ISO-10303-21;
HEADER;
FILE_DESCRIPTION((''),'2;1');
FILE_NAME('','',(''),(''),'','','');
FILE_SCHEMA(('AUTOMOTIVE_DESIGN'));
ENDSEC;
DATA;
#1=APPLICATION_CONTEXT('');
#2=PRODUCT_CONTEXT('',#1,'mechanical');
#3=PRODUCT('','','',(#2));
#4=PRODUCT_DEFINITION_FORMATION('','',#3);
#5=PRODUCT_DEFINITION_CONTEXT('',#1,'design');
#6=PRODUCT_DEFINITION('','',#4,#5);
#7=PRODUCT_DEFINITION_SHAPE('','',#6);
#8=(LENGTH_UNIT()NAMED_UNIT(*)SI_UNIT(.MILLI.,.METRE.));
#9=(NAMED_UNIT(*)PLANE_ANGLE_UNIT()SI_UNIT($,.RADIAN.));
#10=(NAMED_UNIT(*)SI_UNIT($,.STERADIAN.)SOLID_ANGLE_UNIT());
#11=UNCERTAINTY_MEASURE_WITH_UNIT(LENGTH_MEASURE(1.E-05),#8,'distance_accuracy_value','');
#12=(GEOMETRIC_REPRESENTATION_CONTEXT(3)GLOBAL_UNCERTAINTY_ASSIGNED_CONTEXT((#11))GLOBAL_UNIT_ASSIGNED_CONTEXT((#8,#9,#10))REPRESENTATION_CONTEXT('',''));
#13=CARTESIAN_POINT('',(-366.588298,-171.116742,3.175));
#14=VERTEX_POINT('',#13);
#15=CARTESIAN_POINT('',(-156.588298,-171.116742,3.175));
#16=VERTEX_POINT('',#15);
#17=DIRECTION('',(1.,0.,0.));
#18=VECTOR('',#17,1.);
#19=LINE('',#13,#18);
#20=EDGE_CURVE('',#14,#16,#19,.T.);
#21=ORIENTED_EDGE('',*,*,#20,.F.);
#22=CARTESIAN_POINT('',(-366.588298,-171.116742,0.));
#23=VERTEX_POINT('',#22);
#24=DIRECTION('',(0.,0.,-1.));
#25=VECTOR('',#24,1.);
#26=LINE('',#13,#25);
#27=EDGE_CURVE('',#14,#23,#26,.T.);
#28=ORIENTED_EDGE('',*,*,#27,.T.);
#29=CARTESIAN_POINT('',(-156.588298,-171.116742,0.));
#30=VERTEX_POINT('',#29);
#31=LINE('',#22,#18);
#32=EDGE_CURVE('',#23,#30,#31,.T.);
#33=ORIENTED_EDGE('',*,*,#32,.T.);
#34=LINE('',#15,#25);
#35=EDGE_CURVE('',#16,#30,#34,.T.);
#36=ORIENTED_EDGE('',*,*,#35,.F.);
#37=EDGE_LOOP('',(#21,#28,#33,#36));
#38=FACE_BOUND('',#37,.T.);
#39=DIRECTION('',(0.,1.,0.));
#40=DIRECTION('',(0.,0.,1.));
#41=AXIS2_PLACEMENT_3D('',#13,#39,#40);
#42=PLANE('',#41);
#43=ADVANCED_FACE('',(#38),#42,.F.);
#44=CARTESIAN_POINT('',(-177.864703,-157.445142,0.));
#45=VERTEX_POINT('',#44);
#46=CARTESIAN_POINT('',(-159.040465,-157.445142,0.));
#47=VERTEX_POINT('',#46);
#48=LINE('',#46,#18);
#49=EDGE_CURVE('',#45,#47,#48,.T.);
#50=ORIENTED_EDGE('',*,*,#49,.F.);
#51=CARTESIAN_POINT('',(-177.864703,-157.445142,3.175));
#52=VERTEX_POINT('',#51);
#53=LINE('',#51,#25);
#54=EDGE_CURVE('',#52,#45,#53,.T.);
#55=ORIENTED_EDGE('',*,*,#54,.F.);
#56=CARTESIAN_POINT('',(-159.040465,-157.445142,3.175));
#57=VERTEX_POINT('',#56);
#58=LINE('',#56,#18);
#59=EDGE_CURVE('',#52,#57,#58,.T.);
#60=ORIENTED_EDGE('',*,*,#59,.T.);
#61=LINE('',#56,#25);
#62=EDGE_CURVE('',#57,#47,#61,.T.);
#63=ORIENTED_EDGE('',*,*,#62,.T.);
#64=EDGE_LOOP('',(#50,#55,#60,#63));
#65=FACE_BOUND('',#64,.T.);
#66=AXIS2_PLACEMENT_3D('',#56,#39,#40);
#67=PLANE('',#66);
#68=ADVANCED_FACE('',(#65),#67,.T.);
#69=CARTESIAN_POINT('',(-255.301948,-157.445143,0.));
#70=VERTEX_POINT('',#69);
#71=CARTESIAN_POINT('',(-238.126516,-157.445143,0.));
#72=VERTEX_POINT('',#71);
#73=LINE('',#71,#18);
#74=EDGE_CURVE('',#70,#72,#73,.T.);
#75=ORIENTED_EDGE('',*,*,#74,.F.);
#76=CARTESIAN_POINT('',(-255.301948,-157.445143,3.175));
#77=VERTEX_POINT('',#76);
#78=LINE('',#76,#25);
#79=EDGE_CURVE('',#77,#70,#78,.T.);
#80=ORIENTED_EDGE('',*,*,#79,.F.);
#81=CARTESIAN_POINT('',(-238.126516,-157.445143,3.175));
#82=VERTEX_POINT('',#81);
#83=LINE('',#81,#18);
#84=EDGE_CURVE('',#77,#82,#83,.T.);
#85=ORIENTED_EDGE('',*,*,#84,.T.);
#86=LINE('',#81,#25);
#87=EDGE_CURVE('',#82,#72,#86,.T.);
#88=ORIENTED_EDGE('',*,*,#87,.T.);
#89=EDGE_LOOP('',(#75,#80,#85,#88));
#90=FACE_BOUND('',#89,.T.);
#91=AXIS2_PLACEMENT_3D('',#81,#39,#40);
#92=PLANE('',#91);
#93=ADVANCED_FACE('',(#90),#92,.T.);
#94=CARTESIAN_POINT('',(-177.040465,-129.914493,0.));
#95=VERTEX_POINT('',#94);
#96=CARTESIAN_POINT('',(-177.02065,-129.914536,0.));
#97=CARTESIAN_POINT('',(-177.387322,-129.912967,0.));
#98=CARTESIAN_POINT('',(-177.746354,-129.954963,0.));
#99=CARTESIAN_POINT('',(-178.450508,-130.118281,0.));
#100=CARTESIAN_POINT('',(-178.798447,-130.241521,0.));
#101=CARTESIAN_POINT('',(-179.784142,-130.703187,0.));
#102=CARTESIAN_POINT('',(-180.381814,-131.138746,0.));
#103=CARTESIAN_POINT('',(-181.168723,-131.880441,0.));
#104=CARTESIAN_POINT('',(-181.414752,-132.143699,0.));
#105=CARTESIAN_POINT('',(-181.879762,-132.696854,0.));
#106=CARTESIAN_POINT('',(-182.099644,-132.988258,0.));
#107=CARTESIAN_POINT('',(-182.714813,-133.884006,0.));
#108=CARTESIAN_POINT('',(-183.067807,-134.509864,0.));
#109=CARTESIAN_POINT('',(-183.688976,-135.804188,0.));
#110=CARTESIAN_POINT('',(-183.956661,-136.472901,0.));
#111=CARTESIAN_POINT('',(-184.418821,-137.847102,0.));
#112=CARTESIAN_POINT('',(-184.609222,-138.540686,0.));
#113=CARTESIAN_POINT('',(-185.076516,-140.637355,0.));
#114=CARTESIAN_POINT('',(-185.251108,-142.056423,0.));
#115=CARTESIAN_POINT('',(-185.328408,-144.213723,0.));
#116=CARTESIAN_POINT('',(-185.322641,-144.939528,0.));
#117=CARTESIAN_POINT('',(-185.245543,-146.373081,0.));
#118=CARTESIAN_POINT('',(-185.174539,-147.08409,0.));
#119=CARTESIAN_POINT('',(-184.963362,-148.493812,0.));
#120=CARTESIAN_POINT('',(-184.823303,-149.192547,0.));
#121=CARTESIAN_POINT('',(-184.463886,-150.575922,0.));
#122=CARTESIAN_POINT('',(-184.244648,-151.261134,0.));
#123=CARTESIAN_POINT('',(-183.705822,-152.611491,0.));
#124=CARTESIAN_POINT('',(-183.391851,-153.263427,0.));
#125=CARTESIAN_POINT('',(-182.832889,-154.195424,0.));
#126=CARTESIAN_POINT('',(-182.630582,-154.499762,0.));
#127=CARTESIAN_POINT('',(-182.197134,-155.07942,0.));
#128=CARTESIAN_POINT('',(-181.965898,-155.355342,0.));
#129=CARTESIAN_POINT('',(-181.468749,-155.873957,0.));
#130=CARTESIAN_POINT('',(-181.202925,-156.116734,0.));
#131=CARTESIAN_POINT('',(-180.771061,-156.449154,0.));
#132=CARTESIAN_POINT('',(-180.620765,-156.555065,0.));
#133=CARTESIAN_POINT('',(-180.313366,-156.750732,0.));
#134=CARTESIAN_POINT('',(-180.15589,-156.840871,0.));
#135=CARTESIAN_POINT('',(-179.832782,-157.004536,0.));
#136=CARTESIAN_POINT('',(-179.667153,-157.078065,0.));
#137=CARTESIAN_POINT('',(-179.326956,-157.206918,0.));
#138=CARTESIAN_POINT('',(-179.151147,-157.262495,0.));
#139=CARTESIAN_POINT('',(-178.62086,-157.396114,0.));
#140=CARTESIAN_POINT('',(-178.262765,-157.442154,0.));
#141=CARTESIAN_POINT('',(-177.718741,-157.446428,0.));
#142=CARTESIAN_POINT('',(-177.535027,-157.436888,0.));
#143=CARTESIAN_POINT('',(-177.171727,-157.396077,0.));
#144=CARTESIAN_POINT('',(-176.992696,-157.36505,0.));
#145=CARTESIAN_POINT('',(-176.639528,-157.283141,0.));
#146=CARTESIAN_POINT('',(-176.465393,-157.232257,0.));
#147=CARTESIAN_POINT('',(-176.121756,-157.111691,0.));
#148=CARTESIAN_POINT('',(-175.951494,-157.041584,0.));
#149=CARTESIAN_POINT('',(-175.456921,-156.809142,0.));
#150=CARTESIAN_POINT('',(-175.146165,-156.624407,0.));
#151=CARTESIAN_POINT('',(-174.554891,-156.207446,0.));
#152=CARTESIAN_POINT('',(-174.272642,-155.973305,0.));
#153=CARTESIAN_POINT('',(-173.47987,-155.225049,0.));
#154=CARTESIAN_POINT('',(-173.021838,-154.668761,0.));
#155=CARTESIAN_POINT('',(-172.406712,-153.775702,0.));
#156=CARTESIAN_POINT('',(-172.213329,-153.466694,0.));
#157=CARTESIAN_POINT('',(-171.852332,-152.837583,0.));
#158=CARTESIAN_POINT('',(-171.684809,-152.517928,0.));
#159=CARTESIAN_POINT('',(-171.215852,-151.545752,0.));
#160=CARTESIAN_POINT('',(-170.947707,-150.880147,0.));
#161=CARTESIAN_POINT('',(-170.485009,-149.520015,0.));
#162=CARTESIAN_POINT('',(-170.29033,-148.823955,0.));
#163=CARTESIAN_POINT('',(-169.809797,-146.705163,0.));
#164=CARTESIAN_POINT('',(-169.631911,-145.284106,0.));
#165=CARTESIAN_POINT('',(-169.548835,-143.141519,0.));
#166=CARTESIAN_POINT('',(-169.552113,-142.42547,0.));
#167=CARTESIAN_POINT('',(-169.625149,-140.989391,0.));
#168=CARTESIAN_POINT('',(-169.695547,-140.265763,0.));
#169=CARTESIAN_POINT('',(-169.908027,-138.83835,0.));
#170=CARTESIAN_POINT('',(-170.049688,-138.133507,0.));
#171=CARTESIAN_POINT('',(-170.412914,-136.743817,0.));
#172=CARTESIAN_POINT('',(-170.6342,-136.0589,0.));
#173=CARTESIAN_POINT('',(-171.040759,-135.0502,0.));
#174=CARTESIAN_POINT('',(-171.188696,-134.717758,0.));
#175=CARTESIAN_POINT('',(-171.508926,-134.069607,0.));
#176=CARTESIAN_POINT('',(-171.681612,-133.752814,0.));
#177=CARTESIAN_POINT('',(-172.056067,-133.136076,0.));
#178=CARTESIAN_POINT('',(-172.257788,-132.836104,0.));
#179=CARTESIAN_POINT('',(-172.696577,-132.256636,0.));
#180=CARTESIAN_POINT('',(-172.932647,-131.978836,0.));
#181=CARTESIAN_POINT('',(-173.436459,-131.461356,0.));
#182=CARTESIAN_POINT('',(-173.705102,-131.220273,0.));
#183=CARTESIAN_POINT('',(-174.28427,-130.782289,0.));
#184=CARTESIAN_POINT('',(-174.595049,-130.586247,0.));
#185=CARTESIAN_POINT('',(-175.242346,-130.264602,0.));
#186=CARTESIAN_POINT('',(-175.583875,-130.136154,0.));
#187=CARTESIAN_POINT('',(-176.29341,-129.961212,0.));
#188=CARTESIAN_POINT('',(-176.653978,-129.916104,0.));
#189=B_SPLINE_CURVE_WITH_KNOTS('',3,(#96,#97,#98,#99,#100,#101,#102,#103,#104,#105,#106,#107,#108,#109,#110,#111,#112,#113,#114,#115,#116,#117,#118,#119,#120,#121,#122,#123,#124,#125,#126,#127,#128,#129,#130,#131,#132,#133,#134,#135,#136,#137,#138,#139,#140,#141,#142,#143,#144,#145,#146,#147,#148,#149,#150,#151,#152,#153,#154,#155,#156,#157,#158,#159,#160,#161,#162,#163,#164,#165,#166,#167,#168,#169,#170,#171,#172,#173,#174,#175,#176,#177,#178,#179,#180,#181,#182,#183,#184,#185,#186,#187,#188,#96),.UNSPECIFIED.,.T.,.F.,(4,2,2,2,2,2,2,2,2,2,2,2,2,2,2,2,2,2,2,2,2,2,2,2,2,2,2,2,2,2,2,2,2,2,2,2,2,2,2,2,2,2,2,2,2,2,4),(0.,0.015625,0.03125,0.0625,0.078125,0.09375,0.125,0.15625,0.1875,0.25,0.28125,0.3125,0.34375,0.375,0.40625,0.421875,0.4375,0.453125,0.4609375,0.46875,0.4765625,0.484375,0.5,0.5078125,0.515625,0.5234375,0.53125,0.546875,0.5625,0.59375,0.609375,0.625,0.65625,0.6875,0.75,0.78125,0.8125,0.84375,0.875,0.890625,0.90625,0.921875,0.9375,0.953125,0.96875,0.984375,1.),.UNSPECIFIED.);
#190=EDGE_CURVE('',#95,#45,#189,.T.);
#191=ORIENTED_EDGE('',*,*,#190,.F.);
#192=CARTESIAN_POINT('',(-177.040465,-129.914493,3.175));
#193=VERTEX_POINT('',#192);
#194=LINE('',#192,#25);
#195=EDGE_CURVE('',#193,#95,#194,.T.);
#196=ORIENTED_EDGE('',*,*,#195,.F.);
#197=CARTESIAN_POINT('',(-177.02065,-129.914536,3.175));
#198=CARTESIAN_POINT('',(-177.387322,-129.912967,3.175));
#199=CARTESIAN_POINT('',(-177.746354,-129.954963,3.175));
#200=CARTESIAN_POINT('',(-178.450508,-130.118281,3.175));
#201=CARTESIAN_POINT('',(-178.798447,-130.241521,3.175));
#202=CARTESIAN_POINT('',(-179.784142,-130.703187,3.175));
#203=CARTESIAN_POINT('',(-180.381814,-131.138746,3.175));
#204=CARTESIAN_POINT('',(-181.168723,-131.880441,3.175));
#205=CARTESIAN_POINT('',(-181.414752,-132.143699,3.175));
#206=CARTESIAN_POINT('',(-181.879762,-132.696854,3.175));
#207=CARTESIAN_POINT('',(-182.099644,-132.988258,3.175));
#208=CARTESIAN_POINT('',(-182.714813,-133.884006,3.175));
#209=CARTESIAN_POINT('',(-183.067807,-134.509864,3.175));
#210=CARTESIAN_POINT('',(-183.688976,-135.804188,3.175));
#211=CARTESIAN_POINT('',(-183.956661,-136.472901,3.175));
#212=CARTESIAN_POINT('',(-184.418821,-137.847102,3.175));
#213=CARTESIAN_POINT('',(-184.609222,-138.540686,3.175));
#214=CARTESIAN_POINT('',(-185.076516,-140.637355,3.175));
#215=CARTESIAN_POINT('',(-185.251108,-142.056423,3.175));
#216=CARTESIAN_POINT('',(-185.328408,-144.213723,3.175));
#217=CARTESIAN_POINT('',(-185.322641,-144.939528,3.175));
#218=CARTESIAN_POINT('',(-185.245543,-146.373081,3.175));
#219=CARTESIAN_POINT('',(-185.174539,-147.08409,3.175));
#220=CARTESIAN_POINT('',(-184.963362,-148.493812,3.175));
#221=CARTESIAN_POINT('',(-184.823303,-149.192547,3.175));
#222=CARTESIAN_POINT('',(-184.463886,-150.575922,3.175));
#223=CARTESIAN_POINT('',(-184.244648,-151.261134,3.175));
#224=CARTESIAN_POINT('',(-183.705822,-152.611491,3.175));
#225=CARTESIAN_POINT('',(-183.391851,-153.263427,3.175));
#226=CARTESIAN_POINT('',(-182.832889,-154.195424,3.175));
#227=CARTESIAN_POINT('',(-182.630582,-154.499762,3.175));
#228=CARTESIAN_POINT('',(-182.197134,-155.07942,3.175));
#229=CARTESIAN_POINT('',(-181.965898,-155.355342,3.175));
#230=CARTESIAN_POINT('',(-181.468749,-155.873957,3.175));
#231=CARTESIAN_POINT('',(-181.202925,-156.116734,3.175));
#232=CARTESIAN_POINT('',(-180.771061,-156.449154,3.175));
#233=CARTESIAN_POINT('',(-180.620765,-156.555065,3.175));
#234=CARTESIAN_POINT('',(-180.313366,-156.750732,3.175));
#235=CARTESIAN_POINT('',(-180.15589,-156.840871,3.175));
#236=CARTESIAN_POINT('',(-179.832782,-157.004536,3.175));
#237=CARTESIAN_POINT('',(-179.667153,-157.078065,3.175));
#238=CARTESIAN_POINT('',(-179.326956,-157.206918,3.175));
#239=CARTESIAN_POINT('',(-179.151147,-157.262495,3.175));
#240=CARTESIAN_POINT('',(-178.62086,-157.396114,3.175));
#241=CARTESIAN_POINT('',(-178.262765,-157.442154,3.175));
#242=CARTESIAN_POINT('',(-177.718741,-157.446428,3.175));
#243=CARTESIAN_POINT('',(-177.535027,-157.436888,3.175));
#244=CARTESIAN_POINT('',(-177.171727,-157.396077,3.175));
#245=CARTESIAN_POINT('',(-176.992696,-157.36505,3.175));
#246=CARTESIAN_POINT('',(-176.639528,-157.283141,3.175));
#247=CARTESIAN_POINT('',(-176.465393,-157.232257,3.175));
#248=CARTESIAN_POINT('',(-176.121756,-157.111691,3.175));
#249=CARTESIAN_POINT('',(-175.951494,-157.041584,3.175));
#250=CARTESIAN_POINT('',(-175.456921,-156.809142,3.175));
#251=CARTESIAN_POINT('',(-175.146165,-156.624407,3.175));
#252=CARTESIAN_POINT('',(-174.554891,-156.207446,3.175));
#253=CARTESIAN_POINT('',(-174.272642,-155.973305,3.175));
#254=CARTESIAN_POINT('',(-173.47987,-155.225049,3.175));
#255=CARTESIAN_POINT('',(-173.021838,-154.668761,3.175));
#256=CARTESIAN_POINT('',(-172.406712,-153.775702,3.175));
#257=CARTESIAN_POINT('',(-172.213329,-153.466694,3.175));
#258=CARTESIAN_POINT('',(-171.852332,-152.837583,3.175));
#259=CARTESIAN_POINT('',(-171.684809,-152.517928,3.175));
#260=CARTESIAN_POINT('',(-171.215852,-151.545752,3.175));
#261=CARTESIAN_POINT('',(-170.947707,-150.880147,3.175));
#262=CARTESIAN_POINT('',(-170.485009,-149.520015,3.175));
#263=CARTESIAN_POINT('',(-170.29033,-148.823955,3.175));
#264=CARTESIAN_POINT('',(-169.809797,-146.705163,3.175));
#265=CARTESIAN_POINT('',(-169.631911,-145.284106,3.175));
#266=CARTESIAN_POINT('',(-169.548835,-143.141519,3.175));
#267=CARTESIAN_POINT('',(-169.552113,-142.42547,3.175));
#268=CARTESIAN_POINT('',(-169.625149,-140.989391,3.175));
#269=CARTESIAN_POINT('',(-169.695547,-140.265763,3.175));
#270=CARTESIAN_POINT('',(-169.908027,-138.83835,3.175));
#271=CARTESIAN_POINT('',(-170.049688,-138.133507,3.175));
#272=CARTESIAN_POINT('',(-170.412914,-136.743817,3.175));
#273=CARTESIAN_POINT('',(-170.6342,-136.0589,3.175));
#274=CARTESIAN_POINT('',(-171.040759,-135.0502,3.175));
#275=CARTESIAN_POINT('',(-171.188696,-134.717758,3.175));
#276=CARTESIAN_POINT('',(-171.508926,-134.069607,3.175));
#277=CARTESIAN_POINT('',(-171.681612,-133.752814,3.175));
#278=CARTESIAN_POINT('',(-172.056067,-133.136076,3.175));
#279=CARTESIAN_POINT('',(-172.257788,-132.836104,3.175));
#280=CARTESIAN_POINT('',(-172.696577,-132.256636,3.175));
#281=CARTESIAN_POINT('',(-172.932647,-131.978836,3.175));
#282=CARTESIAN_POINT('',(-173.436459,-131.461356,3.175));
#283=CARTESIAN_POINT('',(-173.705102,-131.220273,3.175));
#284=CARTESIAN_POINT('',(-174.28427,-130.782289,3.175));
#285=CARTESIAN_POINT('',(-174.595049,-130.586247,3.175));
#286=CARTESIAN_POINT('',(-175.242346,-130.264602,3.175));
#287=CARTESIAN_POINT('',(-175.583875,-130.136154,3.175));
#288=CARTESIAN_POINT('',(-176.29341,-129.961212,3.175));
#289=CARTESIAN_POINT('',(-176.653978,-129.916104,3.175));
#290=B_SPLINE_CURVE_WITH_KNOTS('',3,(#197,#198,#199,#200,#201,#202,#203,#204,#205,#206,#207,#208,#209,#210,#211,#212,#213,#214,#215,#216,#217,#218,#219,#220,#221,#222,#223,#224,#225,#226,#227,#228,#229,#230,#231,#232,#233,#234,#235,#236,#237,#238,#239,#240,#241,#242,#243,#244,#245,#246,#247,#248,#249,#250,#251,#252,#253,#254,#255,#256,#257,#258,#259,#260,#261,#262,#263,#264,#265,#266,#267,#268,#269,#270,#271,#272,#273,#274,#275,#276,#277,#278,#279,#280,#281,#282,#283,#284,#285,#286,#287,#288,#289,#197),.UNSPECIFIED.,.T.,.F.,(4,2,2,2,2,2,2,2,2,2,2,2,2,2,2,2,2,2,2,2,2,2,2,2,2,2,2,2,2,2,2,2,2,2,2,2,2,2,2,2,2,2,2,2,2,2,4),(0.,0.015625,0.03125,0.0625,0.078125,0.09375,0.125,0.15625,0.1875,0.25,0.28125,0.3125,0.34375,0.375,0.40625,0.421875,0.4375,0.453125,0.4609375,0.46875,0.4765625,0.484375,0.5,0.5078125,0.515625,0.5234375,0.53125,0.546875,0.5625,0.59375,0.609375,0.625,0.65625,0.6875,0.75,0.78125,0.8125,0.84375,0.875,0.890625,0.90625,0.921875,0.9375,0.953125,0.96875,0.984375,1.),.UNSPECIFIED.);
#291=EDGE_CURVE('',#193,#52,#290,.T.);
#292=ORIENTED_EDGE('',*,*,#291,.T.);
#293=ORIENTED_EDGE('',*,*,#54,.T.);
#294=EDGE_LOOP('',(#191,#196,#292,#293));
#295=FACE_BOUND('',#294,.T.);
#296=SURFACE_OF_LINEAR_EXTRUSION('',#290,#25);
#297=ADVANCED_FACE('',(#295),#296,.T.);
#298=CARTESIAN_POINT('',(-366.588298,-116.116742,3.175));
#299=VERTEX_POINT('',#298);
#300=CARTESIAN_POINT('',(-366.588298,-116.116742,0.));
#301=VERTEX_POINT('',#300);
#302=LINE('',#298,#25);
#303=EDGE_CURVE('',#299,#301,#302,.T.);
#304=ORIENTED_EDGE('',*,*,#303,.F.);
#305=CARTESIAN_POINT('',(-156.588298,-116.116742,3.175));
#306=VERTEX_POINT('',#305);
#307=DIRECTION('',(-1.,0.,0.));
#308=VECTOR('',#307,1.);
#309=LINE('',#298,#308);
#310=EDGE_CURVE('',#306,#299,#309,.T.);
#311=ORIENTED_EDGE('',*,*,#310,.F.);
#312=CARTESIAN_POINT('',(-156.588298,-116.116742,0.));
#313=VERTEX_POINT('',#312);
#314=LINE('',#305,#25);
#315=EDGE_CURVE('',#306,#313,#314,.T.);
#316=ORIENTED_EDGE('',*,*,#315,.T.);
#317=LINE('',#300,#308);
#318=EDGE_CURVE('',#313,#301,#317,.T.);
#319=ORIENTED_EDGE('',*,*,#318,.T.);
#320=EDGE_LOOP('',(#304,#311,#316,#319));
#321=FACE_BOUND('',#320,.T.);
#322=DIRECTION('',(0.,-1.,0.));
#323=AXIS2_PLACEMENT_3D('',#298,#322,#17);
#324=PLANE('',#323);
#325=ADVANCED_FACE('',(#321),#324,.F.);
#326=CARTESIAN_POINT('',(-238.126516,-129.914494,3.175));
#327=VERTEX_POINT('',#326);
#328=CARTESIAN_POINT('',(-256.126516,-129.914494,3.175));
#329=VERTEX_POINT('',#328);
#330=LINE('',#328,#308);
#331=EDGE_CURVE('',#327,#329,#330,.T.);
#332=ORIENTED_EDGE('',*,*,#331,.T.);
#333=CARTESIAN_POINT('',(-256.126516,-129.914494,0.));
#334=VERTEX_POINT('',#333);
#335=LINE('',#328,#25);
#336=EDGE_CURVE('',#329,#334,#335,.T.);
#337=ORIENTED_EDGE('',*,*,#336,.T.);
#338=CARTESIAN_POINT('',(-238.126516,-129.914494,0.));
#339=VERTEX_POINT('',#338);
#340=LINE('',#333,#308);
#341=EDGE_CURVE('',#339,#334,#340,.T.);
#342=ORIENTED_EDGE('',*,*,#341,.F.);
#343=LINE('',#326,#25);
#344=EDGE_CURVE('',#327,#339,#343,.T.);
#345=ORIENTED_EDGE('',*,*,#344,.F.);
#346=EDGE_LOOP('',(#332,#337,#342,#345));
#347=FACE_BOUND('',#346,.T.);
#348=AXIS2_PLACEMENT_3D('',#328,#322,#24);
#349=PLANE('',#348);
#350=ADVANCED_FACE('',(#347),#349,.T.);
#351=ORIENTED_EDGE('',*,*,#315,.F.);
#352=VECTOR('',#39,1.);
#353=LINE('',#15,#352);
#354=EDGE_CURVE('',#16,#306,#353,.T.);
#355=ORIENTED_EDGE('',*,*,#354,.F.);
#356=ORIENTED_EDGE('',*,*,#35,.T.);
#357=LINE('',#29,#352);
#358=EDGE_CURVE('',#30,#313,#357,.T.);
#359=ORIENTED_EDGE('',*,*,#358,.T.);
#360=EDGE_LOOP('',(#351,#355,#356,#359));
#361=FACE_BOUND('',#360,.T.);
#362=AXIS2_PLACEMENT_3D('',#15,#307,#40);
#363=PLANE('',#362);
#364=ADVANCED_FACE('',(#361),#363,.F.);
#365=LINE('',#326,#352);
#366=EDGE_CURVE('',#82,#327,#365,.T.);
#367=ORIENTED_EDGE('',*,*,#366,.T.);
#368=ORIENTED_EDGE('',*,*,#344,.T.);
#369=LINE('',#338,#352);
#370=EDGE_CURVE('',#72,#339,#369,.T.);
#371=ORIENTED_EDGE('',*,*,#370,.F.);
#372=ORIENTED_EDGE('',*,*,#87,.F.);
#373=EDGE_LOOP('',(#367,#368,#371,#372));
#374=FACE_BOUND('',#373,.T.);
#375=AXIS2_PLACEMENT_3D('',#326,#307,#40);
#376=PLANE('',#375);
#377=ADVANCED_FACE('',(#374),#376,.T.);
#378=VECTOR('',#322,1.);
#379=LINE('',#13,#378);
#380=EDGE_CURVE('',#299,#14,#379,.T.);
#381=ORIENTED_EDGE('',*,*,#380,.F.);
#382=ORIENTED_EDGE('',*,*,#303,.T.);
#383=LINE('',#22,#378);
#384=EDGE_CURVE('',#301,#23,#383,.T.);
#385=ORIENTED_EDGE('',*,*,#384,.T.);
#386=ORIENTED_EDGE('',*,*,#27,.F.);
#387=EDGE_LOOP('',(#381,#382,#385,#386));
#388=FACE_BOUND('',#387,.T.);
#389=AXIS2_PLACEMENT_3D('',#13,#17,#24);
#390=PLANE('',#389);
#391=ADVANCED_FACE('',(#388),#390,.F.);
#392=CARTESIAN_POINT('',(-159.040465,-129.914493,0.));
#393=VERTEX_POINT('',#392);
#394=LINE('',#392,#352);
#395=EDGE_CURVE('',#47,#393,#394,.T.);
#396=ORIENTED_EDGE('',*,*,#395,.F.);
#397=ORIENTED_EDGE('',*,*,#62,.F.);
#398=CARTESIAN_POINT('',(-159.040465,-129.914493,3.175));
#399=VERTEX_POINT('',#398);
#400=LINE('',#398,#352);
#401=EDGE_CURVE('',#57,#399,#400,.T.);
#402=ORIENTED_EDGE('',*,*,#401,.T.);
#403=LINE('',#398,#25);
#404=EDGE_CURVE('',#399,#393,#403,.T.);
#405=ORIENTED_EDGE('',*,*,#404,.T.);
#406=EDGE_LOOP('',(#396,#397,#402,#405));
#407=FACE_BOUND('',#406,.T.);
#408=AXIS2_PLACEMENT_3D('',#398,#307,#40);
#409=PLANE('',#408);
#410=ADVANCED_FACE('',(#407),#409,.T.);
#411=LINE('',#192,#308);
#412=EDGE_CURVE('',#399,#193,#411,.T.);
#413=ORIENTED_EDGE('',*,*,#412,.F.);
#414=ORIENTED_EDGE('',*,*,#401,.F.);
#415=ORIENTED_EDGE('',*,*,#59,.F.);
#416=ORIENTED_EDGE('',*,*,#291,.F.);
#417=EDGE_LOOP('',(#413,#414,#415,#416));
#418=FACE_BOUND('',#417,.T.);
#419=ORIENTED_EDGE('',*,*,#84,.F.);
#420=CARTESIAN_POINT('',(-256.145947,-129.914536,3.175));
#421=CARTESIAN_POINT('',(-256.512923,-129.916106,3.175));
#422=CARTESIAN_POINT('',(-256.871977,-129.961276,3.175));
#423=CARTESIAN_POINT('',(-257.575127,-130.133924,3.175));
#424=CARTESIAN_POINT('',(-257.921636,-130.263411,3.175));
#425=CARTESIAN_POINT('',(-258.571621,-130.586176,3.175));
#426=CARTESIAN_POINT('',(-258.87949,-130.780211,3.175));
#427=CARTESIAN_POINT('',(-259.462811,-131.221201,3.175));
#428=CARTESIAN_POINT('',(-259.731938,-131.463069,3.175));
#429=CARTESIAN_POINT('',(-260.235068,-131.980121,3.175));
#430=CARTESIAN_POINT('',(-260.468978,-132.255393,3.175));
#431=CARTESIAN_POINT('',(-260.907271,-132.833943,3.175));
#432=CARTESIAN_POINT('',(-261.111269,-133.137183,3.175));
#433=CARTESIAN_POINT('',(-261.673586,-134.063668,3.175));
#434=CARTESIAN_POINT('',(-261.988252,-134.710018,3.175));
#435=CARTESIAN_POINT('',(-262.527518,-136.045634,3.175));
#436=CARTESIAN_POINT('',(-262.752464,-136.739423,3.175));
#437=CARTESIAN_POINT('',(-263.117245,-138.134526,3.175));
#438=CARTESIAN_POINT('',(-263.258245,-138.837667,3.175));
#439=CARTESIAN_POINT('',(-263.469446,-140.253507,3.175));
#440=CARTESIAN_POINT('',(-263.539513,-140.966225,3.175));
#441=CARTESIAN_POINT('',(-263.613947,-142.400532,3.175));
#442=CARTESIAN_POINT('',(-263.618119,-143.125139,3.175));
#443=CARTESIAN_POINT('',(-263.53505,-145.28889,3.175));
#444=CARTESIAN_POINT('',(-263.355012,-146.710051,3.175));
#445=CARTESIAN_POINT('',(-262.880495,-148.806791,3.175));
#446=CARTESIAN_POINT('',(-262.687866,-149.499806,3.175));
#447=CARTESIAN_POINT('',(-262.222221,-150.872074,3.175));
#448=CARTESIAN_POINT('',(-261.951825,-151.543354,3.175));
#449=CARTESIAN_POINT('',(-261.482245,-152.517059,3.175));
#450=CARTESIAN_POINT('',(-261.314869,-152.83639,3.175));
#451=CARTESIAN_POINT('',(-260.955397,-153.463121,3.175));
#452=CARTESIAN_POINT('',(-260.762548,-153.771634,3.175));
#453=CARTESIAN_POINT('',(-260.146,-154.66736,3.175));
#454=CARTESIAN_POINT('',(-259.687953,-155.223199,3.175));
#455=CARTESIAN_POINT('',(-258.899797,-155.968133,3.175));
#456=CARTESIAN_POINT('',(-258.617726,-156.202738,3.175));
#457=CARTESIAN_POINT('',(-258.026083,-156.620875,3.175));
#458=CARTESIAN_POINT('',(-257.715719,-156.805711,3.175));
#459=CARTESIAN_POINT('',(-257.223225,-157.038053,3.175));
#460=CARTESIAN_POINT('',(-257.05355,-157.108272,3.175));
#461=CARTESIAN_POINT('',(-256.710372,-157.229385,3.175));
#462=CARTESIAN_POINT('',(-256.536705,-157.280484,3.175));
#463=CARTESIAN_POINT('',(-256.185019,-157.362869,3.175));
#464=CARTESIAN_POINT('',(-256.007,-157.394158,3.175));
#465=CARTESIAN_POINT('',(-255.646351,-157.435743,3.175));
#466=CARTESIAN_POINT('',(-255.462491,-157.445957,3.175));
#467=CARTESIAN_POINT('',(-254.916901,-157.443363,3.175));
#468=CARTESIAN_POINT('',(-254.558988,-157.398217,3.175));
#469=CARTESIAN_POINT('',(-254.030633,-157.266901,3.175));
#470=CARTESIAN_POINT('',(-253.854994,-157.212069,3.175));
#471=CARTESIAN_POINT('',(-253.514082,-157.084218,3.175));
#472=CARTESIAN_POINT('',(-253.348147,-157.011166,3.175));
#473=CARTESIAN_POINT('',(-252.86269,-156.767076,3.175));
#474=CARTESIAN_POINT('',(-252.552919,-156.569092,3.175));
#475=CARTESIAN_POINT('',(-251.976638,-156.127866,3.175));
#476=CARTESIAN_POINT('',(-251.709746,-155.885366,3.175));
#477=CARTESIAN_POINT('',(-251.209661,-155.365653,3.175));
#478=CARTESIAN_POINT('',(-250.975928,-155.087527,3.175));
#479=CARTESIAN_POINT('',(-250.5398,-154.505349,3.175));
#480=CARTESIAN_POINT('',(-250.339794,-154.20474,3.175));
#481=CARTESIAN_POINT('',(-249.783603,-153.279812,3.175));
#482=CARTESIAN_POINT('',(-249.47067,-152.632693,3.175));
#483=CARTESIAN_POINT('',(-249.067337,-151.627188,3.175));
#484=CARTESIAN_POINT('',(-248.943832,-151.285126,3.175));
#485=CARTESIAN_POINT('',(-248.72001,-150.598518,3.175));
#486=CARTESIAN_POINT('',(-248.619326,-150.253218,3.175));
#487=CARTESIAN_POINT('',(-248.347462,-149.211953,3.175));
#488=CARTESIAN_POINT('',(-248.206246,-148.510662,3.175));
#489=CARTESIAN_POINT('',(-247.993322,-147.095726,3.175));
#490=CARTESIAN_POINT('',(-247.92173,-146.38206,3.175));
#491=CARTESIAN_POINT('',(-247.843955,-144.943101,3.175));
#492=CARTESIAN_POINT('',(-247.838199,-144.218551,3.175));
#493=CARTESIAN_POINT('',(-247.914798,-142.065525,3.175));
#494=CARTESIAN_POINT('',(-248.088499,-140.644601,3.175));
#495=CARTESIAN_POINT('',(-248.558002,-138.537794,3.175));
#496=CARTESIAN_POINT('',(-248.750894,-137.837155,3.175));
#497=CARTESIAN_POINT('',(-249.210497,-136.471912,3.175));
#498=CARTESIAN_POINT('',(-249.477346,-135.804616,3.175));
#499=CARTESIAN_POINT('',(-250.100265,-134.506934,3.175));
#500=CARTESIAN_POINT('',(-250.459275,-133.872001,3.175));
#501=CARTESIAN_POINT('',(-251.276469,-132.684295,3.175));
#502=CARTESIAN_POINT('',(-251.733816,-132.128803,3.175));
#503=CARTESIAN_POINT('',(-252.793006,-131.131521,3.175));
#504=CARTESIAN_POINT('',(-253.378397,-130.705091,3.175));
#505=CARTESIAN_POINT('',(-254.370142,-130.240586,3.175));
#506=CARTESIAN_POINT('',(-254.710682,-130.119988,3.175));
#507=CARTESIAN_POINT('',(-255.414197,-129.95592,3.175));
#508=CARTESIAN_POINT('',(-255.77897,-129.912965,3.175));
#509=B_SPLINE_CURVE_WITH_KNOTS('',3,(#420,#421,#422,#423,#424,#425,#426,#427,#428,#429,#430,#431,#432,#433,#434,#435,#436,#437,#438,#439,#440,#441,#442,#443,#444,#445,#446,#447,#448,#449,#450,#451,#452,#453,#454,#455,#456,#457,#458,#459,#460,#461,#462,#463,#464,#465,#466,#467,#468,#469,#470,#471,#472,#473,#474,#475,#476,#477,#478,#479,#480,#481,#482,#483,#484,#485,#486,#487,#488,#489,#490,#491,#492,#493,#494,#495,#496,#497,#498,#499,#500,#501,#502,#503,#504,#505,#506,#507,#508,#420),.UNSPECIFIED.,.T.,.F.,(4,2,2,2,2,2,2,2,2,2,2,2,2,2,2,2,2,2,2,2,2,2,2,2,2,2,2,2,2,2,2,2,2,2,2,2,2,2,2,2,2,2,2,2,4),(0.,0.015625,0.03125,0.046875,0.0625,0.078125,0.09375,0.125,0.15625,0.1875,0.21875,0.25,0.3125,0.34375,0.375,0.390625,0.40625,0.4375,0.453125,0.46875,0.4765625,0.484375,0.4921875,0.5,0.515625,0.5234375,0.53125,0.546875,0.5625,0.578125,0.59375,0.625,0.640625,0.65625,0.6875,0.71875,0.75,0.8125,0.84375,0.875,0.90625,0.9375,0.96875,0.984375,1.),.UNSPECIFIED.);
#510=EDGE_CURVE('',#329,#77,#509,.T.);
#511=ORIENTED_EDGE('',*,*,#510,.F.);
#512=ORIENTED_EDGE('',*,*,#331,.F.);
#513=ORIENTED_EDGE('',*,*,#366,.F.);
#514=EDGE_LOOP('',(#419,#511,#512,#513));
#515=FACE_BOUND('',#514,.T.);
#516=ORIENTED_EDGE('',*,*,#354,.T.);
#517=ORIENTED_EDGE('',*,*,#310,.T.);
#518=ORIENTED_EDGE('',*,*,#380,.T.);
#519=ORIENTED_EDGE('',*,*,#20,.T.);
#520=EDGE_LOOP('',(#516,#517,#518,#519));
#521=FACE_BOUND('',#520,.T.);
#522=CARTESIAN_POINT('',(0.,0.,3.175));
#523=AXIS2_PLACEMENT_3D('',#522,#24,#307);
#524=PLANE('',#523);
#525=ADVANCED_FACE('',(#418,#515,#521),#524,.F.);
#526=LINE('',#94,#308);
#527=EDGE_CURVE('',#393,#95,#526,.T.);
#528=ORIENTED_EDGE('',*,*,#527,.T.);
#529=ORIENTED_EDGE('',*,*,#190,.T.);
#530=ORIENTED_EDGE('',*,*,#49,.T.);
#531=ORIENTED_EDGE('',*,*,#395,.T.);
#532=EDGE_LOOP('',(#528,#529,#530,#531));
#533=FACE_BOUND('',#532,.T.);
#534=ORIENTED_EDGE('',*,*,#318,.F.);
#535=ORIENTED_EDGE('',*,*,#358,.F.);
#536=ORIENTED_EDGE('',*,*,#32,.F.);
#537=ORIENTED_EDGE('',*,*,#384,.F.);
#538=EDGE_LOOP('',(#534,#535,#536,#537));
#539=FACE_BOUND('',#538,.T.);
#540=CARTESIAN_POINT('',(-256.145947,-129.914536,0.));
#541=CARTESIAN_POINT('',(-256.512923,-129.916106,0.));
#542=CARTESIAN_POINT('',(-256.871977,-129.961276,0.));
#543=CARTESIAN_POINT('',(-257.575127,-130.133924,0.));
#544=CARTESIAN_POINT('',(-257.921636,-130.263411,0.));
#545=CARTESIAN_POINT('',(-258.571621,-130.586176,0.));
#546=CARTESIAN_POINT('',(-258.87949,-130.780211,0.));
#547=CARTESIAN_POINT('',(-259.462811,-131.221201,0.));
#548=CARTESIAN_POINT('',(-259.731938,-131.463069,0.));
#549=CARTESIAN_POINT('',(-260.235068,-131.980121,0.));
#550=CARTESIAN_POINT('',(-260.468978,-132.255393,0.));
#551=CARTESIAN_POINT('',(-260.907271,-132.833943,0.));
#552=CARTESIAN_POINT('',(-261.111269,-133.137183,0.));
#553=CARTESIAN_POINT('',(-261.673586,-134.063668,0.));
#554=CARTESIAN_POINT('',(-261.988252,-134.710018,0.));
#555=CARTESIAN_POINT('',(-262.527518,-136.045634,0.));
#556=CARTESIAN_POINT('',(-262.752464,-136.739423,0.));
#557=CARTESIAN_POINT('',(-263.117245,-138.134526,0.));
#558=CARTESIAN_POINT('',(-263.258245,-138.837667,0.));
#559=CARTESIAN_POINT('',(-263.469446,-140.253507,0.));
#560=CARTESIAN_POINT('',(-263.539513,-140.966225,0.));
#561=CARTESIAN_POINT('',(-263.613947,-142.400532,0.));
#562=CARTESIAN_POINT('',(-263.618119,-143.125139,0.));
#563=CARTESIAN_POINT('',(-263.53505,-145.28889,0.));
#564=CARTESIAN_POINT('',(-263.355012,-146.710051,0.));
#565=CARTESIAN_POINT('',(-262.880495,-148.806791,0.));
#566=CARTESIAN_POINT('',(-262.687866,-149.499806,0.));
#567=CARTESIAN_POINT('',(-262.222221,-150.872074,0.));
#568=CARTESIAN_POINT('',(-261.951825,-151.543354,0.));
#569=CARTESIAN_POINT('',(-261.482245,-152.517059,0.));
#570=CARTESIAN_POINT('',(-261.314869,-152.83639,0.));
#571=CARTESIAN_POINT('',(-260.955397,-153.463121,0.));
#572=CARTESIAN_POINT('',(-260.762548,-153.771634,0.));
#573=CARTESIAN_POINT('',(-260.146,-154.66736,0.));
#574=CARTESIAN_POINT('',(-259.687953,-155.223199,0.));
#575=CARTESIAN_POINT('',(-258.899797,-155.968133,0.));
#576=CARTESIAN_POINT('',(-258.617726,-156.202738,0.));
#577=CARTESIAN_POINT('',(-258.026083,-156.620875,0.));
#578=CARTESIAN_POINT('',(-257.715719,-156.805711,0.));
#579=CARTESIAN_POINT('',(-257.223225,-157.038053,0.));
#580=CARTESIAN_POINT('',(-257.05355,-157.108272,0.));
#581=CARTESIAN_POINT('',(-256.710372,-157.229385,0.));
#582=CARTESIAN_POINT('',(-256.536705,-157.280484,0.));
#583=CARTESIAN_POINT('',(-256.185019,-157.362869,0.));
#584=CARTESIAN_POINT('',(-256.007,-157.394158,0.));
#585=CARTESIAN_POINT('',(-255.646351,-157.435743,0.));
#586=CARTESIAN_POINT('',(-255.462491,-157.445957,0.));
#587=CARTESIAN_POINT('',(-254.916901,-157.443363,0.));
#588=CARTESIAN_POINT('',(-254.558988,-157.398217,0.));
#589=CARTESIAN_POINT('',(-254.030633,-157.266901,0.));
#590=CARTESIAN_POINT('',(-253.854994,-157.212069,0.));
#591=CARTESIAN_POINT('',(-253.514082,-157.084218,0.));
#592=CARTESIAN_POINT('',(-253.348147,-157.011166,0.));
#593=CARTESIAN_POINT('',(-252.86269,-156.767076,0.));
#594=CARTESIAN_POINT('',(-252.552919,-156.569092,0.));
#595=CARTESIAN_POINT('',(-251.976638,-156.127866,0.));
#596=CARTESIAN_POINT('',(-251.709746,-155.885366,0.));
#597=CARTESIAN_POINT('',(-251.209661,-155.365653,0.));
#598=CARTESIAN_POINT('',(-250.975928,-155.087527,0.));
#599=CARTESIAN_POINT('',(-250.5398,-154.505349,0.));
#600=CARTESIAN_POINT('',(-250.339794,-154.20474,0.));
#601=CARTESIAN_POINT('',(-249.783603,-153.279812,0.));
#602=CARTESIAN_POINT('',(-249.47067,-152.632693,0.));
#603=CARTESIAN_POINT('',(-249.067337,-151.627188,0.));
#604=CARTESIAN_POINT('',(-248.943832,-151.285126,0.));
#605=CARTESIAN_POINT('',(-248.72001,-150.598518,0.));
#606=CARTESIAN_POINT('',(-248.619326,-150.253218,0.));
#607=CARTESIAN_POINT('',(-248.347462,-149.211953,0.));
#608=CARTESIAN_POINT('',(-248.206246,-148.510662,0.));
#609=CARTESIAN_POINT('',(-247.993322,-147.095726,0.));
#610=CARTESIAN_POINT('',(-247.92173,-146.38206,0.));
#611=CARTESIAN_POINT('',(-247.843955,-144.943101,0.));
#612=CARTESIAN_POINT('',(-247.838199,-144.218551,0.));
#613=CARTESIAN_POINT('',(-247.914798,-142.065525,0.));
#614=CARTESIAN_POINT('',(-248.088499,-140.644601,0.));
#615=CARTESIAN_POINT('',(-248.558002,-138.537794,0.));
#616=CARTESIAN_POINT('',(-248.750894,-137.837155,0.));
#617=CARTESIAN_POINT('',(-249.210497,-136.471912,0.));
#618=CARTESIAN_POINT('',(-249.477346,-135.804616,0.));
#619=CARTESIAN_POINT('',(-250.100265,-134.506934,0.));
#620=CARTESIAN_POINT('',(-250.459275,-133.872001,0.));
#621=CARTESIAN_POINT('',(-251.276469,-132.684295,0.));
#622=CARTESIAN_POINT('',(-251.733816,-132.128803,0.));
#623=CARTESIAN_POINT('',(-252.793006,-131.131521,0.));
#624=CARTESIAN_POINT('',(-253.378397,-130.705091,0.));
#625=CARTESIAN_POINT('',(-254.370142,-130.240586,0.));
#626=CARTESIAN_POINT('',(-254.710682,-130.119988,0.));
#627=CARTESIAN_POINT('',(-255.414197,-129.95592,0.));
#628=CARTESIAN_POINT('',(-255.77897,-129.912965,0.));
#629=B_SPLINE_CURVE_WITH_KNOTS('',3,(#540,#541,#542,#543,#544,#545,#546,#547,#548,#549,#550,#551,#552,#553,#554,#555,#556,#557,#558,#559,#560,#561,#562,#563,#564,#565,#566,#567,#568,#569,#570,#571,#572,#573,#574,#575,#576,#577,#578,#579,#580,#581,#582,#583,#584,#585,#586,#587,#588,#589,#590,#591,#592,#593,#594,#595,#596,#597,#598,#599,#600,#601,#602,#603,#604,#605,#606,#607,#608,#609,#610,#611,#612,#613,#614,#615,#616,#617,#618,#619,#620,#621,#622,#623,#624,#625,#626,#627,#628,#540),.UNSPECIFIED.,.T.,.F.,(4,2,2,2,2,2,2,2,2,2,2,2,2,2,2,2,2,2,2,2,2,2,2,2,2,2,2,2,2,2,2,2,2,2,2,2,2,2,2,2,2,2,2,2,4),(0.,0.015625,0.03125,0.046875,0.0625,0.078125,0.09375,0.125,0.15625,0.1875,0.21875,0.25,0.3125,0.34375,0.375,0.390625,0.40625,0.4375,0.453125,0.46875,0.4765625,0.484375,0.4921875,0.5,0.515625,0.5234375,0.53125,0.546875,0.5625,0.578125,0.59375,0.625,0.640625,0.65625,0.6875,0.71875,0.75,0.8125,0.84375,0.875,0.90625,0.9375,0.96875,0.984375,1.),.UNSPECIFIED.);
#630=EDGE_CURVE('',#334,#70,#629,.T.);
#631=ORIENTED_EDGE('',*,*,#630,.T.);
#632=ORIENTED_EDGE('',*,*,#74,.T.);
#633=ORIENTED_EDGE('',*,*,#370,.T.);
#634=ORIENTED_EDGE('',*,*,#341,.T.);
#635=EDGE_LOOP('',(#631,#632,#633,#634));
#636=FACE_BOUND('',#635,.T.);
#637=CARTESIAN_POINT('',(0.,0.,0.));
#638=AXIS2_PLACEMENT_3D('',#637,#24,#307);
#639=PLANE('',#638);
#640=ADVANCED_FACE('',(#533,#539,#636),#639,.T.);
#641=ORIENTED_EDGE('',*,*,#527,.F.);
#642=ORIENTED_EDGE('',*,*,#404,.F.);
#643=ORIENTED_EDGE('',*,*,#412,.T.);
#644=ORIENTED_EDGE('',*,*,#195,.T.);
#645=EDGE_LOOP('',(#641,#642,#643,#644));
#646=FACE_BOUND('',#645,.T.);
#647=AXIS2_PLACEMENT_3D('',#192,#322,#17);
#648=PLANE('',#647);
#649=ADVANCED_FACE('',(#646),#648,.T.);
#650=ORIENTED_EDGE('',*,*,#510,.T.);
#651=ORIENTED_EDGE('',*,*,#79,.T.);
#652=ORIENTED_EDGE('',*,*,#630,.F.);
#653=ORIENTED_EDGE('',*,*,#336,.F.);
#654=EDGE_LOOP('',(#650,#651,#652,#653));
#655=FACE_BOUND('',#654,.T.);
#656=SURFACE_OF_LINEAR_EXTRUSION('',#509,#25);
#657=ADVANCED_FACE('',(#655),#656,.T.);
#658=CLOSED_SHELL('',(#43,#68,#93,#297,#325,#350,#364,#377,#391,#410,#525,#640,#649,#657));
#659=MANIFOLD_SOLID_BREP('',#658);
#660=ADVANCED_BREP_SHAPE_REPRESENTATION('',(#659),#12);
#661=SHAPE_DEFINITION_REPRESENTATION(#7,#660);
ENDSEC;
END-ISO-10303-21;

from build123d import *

# Parameters (mm, degrees)
SKETCH1_W           = 210
SKETCH1_H           = 55
BOSS_EXTRUDE2_DEPTH = 3.175


with BuildPart() as part:
    # Sketch1 → Boss-Extrude2 (new body)
    with BuildSketch(Plane.XY):
        with Locations((-261.58829827, -143.616742272)):
            Rectangle(SKETCH1_W, SKETCH1_H)
        with BuildLine():
            Line((-256.126515872, -129.914493968), (-238.126515872, -129.914493968))
            Line((-238.126515872, -129.914493968), (-238.126515872, -157.445143065))
            Line((-238.126515872, -157.445143065), (-255.301947619, -157.445143065))
            add(Edge.make_bspline(
                [(-256.126515872, -129.914493968), (-256.132992045, -129.914493968), (-256.139468965, -129.91450781), (-256.512923163, -129.916105653), (-256.871976666, -129.961276413), (-257.575127126, -130.133923564), (-257.921636069, -130.263410906), (-258.571621418, -130.586176219), (-258.879489776, -130.78021096), (-259.462810842, -131.221200769), (-259.731937947, -131.463068859), (-260.235067773, -131.98012087), (-260.468977829, -132.255392686), (-260.907271385, -132.833942556), (-261.111268678, -133.137182585), (-261.673586312, -134.063668351), (-261.988251583, -134.710018031), (-262.527518193, -136.045634253), (-262.752464397, -136.739423267), (-263.117244618, -138.134526481), (-263.258245033, -138.837666692), (-263.46944613, -140.253506783), (-263.539513018, -140.966224727), (-263.613946735, -142.400531703), (-263.618118635, -143.125138919), (-263.535049841, -145.288890406), (-263.355011587, -146.710051192), (-262.880494808, -148.806791259), (-262.687866041, -149.499806054), (-262.222220804, -150.872074189), (-261.951824884, -151.54335372), (-261.482245138, -152.517058611), (-261.314868687, -152.836389762), (-260.955397443, -153.463120717), (-260.762547685, -153.771633607), (-260.145999628, -154.667359954), (-259.687952955, -155.223199045), (-258.899796605, -155.968133011), (-258.6177264, -156.202737546), (-258.026082675, -156.620875313), (-257.715719206, -156.805710538), (-257.223224925, -157.038052598), (-257.053549951, -157.108271733), (-256.710372006, -157.229384829), (-256.363038305, -157.331581483), (-256.007000457, -157.394158026), (-255.653394629, -157.434931154), (-255.476848891, -157.445143065), (-255.301947619, -157.445143065)],
                knots=[0.999724199, 0.999724199, 0.999724199, 0.999724199, 1, 1, 1.015625, 1.015625, 1.03125, 1.03125, 1.046875, 1.046875, 1.0625, 1.0625, 1.078125, 1.078125, 1.09375, 1.09375, 1.125, 1.125, 1.15625, 1.15625, 1.1875, 1.1875, 1.21875, 1.21875, 1.25, 1.25, 1.3125, 1.3125, 1.34375, 1.34375, 1.375, 1.375, 1.390625, 1.390625, 1.40625, 1.40625, 1.4375, 1.4375, 1.453125, 1.453125, 1.46875, 1.46875, 1.4765625, 1.4765625, 1.484375, 1.4921875, 1.4921875, 1.499694839, 1.499694839, 1.499694839, 1.499694839], degree=3))
        make_face(mode=Mode.SUBTRACT)
        with BuildLine():
            Line((-177.040464824, -129.914493131), (-159.040464824, -129.914493131))
            Line((-159.040464824, -129.914493131), (-159.040464824, -157.445142267))
            Line((-159.040464824, -157.445142267), (-177.864702912, -157.445142267))
            add(Edge.make_bspline(
                [(-177.040464824, -129.914493131), (-177.400259083, -129.914493131), (-177.752698521, -129.956434579), (-178.450508164, -130.118281465), (-178.798446548, -130.241521216), (-179.784142425, -130.703186625), (-180.381814164, -131.138745878), (-181.168722929, -131.880440702), (-181.414752425, -132.143698936), (-181.879762188, -132.696854414), (-182.099643917, -132.988258366), (-182.714813277, -133.884005529), (-183.067807311, -134.509863609), (-183.688975752, -135.804188375), (-183.956661427, -136.472900571), (-184.418821119, -137.847102378), (-184.60922195, -138.540686475), (-185.076516236, -140.637355053), (-185.251107732, -142.05642333), (-185.328407938, -144.213722779), (-185.322641079, -144.939527832), (-185.245543482, -146.373081328), (-185.174539397, -147.084089599), (-184.963362414, -148.493812341), (-184.823302583, -149.192546909), (-184.463885552, -150.575922036), (-184.244647865, -151.261133883), (-183.705821701, -152.611490757), (-183.39185114, -153.263426638), (-182.832888757, -154.195423531), (-182.630581648, -154.499761516), (-182.197133509, -155.079419539), (-181.965897633, -155.355342095), (-181.468748984, -155.873956834), (-181.202924715, -156.116733829), (-180.771061379, -156.449154259), (-180.620764556, -156.555065499), (-180.313366279, -156.750731797), (-179.998412932, -156.931007765), (-179.667152799, -157.078065401), (-179.32695585, -157.20691797), (-179.15114653, -157.262494593), (-178.620859868, -157.396113578), (-178.262764543, -157.442154367), (-177.888298624, -157.445095998), (-177.876505167, -157.445142267), (-177.864702912, -157.445142267)],
                knots=[0.000281563, 0.000281563, 0.000281563, 0.000281563, 0.015625, 0.015625, 0.03125, 0.03125, 0.0625, 0.0625, 0.078125, 0.078125, 0.09375, 0.09375, 0.125, 0.125, 0.15625, 0.15625, 0.1875, 0.1875, 0.25, 0.25, 0.28125, 0.28125, 0.3125, 0.3125, 0.34375, 0.34375, 0.375, 0.375, 0.40625, 0.40625, 0.421875, 0.421875, 0.4375, 0.4375, 0.453125, 0.453125, 0.4609375, 0.4609375, 0.46875, 0.4765625, 0.4765625, 0.484375, 0.484375, 0.5, 0.5, 0.500507651, 0.500507651, 0.500507651, 0.500507651], degree=3))
        make_face(mode=Mode.SUBTRACT)
    extrude(amount=BOSS_EXTRUDE2_DEPTH)


solid = part.part
